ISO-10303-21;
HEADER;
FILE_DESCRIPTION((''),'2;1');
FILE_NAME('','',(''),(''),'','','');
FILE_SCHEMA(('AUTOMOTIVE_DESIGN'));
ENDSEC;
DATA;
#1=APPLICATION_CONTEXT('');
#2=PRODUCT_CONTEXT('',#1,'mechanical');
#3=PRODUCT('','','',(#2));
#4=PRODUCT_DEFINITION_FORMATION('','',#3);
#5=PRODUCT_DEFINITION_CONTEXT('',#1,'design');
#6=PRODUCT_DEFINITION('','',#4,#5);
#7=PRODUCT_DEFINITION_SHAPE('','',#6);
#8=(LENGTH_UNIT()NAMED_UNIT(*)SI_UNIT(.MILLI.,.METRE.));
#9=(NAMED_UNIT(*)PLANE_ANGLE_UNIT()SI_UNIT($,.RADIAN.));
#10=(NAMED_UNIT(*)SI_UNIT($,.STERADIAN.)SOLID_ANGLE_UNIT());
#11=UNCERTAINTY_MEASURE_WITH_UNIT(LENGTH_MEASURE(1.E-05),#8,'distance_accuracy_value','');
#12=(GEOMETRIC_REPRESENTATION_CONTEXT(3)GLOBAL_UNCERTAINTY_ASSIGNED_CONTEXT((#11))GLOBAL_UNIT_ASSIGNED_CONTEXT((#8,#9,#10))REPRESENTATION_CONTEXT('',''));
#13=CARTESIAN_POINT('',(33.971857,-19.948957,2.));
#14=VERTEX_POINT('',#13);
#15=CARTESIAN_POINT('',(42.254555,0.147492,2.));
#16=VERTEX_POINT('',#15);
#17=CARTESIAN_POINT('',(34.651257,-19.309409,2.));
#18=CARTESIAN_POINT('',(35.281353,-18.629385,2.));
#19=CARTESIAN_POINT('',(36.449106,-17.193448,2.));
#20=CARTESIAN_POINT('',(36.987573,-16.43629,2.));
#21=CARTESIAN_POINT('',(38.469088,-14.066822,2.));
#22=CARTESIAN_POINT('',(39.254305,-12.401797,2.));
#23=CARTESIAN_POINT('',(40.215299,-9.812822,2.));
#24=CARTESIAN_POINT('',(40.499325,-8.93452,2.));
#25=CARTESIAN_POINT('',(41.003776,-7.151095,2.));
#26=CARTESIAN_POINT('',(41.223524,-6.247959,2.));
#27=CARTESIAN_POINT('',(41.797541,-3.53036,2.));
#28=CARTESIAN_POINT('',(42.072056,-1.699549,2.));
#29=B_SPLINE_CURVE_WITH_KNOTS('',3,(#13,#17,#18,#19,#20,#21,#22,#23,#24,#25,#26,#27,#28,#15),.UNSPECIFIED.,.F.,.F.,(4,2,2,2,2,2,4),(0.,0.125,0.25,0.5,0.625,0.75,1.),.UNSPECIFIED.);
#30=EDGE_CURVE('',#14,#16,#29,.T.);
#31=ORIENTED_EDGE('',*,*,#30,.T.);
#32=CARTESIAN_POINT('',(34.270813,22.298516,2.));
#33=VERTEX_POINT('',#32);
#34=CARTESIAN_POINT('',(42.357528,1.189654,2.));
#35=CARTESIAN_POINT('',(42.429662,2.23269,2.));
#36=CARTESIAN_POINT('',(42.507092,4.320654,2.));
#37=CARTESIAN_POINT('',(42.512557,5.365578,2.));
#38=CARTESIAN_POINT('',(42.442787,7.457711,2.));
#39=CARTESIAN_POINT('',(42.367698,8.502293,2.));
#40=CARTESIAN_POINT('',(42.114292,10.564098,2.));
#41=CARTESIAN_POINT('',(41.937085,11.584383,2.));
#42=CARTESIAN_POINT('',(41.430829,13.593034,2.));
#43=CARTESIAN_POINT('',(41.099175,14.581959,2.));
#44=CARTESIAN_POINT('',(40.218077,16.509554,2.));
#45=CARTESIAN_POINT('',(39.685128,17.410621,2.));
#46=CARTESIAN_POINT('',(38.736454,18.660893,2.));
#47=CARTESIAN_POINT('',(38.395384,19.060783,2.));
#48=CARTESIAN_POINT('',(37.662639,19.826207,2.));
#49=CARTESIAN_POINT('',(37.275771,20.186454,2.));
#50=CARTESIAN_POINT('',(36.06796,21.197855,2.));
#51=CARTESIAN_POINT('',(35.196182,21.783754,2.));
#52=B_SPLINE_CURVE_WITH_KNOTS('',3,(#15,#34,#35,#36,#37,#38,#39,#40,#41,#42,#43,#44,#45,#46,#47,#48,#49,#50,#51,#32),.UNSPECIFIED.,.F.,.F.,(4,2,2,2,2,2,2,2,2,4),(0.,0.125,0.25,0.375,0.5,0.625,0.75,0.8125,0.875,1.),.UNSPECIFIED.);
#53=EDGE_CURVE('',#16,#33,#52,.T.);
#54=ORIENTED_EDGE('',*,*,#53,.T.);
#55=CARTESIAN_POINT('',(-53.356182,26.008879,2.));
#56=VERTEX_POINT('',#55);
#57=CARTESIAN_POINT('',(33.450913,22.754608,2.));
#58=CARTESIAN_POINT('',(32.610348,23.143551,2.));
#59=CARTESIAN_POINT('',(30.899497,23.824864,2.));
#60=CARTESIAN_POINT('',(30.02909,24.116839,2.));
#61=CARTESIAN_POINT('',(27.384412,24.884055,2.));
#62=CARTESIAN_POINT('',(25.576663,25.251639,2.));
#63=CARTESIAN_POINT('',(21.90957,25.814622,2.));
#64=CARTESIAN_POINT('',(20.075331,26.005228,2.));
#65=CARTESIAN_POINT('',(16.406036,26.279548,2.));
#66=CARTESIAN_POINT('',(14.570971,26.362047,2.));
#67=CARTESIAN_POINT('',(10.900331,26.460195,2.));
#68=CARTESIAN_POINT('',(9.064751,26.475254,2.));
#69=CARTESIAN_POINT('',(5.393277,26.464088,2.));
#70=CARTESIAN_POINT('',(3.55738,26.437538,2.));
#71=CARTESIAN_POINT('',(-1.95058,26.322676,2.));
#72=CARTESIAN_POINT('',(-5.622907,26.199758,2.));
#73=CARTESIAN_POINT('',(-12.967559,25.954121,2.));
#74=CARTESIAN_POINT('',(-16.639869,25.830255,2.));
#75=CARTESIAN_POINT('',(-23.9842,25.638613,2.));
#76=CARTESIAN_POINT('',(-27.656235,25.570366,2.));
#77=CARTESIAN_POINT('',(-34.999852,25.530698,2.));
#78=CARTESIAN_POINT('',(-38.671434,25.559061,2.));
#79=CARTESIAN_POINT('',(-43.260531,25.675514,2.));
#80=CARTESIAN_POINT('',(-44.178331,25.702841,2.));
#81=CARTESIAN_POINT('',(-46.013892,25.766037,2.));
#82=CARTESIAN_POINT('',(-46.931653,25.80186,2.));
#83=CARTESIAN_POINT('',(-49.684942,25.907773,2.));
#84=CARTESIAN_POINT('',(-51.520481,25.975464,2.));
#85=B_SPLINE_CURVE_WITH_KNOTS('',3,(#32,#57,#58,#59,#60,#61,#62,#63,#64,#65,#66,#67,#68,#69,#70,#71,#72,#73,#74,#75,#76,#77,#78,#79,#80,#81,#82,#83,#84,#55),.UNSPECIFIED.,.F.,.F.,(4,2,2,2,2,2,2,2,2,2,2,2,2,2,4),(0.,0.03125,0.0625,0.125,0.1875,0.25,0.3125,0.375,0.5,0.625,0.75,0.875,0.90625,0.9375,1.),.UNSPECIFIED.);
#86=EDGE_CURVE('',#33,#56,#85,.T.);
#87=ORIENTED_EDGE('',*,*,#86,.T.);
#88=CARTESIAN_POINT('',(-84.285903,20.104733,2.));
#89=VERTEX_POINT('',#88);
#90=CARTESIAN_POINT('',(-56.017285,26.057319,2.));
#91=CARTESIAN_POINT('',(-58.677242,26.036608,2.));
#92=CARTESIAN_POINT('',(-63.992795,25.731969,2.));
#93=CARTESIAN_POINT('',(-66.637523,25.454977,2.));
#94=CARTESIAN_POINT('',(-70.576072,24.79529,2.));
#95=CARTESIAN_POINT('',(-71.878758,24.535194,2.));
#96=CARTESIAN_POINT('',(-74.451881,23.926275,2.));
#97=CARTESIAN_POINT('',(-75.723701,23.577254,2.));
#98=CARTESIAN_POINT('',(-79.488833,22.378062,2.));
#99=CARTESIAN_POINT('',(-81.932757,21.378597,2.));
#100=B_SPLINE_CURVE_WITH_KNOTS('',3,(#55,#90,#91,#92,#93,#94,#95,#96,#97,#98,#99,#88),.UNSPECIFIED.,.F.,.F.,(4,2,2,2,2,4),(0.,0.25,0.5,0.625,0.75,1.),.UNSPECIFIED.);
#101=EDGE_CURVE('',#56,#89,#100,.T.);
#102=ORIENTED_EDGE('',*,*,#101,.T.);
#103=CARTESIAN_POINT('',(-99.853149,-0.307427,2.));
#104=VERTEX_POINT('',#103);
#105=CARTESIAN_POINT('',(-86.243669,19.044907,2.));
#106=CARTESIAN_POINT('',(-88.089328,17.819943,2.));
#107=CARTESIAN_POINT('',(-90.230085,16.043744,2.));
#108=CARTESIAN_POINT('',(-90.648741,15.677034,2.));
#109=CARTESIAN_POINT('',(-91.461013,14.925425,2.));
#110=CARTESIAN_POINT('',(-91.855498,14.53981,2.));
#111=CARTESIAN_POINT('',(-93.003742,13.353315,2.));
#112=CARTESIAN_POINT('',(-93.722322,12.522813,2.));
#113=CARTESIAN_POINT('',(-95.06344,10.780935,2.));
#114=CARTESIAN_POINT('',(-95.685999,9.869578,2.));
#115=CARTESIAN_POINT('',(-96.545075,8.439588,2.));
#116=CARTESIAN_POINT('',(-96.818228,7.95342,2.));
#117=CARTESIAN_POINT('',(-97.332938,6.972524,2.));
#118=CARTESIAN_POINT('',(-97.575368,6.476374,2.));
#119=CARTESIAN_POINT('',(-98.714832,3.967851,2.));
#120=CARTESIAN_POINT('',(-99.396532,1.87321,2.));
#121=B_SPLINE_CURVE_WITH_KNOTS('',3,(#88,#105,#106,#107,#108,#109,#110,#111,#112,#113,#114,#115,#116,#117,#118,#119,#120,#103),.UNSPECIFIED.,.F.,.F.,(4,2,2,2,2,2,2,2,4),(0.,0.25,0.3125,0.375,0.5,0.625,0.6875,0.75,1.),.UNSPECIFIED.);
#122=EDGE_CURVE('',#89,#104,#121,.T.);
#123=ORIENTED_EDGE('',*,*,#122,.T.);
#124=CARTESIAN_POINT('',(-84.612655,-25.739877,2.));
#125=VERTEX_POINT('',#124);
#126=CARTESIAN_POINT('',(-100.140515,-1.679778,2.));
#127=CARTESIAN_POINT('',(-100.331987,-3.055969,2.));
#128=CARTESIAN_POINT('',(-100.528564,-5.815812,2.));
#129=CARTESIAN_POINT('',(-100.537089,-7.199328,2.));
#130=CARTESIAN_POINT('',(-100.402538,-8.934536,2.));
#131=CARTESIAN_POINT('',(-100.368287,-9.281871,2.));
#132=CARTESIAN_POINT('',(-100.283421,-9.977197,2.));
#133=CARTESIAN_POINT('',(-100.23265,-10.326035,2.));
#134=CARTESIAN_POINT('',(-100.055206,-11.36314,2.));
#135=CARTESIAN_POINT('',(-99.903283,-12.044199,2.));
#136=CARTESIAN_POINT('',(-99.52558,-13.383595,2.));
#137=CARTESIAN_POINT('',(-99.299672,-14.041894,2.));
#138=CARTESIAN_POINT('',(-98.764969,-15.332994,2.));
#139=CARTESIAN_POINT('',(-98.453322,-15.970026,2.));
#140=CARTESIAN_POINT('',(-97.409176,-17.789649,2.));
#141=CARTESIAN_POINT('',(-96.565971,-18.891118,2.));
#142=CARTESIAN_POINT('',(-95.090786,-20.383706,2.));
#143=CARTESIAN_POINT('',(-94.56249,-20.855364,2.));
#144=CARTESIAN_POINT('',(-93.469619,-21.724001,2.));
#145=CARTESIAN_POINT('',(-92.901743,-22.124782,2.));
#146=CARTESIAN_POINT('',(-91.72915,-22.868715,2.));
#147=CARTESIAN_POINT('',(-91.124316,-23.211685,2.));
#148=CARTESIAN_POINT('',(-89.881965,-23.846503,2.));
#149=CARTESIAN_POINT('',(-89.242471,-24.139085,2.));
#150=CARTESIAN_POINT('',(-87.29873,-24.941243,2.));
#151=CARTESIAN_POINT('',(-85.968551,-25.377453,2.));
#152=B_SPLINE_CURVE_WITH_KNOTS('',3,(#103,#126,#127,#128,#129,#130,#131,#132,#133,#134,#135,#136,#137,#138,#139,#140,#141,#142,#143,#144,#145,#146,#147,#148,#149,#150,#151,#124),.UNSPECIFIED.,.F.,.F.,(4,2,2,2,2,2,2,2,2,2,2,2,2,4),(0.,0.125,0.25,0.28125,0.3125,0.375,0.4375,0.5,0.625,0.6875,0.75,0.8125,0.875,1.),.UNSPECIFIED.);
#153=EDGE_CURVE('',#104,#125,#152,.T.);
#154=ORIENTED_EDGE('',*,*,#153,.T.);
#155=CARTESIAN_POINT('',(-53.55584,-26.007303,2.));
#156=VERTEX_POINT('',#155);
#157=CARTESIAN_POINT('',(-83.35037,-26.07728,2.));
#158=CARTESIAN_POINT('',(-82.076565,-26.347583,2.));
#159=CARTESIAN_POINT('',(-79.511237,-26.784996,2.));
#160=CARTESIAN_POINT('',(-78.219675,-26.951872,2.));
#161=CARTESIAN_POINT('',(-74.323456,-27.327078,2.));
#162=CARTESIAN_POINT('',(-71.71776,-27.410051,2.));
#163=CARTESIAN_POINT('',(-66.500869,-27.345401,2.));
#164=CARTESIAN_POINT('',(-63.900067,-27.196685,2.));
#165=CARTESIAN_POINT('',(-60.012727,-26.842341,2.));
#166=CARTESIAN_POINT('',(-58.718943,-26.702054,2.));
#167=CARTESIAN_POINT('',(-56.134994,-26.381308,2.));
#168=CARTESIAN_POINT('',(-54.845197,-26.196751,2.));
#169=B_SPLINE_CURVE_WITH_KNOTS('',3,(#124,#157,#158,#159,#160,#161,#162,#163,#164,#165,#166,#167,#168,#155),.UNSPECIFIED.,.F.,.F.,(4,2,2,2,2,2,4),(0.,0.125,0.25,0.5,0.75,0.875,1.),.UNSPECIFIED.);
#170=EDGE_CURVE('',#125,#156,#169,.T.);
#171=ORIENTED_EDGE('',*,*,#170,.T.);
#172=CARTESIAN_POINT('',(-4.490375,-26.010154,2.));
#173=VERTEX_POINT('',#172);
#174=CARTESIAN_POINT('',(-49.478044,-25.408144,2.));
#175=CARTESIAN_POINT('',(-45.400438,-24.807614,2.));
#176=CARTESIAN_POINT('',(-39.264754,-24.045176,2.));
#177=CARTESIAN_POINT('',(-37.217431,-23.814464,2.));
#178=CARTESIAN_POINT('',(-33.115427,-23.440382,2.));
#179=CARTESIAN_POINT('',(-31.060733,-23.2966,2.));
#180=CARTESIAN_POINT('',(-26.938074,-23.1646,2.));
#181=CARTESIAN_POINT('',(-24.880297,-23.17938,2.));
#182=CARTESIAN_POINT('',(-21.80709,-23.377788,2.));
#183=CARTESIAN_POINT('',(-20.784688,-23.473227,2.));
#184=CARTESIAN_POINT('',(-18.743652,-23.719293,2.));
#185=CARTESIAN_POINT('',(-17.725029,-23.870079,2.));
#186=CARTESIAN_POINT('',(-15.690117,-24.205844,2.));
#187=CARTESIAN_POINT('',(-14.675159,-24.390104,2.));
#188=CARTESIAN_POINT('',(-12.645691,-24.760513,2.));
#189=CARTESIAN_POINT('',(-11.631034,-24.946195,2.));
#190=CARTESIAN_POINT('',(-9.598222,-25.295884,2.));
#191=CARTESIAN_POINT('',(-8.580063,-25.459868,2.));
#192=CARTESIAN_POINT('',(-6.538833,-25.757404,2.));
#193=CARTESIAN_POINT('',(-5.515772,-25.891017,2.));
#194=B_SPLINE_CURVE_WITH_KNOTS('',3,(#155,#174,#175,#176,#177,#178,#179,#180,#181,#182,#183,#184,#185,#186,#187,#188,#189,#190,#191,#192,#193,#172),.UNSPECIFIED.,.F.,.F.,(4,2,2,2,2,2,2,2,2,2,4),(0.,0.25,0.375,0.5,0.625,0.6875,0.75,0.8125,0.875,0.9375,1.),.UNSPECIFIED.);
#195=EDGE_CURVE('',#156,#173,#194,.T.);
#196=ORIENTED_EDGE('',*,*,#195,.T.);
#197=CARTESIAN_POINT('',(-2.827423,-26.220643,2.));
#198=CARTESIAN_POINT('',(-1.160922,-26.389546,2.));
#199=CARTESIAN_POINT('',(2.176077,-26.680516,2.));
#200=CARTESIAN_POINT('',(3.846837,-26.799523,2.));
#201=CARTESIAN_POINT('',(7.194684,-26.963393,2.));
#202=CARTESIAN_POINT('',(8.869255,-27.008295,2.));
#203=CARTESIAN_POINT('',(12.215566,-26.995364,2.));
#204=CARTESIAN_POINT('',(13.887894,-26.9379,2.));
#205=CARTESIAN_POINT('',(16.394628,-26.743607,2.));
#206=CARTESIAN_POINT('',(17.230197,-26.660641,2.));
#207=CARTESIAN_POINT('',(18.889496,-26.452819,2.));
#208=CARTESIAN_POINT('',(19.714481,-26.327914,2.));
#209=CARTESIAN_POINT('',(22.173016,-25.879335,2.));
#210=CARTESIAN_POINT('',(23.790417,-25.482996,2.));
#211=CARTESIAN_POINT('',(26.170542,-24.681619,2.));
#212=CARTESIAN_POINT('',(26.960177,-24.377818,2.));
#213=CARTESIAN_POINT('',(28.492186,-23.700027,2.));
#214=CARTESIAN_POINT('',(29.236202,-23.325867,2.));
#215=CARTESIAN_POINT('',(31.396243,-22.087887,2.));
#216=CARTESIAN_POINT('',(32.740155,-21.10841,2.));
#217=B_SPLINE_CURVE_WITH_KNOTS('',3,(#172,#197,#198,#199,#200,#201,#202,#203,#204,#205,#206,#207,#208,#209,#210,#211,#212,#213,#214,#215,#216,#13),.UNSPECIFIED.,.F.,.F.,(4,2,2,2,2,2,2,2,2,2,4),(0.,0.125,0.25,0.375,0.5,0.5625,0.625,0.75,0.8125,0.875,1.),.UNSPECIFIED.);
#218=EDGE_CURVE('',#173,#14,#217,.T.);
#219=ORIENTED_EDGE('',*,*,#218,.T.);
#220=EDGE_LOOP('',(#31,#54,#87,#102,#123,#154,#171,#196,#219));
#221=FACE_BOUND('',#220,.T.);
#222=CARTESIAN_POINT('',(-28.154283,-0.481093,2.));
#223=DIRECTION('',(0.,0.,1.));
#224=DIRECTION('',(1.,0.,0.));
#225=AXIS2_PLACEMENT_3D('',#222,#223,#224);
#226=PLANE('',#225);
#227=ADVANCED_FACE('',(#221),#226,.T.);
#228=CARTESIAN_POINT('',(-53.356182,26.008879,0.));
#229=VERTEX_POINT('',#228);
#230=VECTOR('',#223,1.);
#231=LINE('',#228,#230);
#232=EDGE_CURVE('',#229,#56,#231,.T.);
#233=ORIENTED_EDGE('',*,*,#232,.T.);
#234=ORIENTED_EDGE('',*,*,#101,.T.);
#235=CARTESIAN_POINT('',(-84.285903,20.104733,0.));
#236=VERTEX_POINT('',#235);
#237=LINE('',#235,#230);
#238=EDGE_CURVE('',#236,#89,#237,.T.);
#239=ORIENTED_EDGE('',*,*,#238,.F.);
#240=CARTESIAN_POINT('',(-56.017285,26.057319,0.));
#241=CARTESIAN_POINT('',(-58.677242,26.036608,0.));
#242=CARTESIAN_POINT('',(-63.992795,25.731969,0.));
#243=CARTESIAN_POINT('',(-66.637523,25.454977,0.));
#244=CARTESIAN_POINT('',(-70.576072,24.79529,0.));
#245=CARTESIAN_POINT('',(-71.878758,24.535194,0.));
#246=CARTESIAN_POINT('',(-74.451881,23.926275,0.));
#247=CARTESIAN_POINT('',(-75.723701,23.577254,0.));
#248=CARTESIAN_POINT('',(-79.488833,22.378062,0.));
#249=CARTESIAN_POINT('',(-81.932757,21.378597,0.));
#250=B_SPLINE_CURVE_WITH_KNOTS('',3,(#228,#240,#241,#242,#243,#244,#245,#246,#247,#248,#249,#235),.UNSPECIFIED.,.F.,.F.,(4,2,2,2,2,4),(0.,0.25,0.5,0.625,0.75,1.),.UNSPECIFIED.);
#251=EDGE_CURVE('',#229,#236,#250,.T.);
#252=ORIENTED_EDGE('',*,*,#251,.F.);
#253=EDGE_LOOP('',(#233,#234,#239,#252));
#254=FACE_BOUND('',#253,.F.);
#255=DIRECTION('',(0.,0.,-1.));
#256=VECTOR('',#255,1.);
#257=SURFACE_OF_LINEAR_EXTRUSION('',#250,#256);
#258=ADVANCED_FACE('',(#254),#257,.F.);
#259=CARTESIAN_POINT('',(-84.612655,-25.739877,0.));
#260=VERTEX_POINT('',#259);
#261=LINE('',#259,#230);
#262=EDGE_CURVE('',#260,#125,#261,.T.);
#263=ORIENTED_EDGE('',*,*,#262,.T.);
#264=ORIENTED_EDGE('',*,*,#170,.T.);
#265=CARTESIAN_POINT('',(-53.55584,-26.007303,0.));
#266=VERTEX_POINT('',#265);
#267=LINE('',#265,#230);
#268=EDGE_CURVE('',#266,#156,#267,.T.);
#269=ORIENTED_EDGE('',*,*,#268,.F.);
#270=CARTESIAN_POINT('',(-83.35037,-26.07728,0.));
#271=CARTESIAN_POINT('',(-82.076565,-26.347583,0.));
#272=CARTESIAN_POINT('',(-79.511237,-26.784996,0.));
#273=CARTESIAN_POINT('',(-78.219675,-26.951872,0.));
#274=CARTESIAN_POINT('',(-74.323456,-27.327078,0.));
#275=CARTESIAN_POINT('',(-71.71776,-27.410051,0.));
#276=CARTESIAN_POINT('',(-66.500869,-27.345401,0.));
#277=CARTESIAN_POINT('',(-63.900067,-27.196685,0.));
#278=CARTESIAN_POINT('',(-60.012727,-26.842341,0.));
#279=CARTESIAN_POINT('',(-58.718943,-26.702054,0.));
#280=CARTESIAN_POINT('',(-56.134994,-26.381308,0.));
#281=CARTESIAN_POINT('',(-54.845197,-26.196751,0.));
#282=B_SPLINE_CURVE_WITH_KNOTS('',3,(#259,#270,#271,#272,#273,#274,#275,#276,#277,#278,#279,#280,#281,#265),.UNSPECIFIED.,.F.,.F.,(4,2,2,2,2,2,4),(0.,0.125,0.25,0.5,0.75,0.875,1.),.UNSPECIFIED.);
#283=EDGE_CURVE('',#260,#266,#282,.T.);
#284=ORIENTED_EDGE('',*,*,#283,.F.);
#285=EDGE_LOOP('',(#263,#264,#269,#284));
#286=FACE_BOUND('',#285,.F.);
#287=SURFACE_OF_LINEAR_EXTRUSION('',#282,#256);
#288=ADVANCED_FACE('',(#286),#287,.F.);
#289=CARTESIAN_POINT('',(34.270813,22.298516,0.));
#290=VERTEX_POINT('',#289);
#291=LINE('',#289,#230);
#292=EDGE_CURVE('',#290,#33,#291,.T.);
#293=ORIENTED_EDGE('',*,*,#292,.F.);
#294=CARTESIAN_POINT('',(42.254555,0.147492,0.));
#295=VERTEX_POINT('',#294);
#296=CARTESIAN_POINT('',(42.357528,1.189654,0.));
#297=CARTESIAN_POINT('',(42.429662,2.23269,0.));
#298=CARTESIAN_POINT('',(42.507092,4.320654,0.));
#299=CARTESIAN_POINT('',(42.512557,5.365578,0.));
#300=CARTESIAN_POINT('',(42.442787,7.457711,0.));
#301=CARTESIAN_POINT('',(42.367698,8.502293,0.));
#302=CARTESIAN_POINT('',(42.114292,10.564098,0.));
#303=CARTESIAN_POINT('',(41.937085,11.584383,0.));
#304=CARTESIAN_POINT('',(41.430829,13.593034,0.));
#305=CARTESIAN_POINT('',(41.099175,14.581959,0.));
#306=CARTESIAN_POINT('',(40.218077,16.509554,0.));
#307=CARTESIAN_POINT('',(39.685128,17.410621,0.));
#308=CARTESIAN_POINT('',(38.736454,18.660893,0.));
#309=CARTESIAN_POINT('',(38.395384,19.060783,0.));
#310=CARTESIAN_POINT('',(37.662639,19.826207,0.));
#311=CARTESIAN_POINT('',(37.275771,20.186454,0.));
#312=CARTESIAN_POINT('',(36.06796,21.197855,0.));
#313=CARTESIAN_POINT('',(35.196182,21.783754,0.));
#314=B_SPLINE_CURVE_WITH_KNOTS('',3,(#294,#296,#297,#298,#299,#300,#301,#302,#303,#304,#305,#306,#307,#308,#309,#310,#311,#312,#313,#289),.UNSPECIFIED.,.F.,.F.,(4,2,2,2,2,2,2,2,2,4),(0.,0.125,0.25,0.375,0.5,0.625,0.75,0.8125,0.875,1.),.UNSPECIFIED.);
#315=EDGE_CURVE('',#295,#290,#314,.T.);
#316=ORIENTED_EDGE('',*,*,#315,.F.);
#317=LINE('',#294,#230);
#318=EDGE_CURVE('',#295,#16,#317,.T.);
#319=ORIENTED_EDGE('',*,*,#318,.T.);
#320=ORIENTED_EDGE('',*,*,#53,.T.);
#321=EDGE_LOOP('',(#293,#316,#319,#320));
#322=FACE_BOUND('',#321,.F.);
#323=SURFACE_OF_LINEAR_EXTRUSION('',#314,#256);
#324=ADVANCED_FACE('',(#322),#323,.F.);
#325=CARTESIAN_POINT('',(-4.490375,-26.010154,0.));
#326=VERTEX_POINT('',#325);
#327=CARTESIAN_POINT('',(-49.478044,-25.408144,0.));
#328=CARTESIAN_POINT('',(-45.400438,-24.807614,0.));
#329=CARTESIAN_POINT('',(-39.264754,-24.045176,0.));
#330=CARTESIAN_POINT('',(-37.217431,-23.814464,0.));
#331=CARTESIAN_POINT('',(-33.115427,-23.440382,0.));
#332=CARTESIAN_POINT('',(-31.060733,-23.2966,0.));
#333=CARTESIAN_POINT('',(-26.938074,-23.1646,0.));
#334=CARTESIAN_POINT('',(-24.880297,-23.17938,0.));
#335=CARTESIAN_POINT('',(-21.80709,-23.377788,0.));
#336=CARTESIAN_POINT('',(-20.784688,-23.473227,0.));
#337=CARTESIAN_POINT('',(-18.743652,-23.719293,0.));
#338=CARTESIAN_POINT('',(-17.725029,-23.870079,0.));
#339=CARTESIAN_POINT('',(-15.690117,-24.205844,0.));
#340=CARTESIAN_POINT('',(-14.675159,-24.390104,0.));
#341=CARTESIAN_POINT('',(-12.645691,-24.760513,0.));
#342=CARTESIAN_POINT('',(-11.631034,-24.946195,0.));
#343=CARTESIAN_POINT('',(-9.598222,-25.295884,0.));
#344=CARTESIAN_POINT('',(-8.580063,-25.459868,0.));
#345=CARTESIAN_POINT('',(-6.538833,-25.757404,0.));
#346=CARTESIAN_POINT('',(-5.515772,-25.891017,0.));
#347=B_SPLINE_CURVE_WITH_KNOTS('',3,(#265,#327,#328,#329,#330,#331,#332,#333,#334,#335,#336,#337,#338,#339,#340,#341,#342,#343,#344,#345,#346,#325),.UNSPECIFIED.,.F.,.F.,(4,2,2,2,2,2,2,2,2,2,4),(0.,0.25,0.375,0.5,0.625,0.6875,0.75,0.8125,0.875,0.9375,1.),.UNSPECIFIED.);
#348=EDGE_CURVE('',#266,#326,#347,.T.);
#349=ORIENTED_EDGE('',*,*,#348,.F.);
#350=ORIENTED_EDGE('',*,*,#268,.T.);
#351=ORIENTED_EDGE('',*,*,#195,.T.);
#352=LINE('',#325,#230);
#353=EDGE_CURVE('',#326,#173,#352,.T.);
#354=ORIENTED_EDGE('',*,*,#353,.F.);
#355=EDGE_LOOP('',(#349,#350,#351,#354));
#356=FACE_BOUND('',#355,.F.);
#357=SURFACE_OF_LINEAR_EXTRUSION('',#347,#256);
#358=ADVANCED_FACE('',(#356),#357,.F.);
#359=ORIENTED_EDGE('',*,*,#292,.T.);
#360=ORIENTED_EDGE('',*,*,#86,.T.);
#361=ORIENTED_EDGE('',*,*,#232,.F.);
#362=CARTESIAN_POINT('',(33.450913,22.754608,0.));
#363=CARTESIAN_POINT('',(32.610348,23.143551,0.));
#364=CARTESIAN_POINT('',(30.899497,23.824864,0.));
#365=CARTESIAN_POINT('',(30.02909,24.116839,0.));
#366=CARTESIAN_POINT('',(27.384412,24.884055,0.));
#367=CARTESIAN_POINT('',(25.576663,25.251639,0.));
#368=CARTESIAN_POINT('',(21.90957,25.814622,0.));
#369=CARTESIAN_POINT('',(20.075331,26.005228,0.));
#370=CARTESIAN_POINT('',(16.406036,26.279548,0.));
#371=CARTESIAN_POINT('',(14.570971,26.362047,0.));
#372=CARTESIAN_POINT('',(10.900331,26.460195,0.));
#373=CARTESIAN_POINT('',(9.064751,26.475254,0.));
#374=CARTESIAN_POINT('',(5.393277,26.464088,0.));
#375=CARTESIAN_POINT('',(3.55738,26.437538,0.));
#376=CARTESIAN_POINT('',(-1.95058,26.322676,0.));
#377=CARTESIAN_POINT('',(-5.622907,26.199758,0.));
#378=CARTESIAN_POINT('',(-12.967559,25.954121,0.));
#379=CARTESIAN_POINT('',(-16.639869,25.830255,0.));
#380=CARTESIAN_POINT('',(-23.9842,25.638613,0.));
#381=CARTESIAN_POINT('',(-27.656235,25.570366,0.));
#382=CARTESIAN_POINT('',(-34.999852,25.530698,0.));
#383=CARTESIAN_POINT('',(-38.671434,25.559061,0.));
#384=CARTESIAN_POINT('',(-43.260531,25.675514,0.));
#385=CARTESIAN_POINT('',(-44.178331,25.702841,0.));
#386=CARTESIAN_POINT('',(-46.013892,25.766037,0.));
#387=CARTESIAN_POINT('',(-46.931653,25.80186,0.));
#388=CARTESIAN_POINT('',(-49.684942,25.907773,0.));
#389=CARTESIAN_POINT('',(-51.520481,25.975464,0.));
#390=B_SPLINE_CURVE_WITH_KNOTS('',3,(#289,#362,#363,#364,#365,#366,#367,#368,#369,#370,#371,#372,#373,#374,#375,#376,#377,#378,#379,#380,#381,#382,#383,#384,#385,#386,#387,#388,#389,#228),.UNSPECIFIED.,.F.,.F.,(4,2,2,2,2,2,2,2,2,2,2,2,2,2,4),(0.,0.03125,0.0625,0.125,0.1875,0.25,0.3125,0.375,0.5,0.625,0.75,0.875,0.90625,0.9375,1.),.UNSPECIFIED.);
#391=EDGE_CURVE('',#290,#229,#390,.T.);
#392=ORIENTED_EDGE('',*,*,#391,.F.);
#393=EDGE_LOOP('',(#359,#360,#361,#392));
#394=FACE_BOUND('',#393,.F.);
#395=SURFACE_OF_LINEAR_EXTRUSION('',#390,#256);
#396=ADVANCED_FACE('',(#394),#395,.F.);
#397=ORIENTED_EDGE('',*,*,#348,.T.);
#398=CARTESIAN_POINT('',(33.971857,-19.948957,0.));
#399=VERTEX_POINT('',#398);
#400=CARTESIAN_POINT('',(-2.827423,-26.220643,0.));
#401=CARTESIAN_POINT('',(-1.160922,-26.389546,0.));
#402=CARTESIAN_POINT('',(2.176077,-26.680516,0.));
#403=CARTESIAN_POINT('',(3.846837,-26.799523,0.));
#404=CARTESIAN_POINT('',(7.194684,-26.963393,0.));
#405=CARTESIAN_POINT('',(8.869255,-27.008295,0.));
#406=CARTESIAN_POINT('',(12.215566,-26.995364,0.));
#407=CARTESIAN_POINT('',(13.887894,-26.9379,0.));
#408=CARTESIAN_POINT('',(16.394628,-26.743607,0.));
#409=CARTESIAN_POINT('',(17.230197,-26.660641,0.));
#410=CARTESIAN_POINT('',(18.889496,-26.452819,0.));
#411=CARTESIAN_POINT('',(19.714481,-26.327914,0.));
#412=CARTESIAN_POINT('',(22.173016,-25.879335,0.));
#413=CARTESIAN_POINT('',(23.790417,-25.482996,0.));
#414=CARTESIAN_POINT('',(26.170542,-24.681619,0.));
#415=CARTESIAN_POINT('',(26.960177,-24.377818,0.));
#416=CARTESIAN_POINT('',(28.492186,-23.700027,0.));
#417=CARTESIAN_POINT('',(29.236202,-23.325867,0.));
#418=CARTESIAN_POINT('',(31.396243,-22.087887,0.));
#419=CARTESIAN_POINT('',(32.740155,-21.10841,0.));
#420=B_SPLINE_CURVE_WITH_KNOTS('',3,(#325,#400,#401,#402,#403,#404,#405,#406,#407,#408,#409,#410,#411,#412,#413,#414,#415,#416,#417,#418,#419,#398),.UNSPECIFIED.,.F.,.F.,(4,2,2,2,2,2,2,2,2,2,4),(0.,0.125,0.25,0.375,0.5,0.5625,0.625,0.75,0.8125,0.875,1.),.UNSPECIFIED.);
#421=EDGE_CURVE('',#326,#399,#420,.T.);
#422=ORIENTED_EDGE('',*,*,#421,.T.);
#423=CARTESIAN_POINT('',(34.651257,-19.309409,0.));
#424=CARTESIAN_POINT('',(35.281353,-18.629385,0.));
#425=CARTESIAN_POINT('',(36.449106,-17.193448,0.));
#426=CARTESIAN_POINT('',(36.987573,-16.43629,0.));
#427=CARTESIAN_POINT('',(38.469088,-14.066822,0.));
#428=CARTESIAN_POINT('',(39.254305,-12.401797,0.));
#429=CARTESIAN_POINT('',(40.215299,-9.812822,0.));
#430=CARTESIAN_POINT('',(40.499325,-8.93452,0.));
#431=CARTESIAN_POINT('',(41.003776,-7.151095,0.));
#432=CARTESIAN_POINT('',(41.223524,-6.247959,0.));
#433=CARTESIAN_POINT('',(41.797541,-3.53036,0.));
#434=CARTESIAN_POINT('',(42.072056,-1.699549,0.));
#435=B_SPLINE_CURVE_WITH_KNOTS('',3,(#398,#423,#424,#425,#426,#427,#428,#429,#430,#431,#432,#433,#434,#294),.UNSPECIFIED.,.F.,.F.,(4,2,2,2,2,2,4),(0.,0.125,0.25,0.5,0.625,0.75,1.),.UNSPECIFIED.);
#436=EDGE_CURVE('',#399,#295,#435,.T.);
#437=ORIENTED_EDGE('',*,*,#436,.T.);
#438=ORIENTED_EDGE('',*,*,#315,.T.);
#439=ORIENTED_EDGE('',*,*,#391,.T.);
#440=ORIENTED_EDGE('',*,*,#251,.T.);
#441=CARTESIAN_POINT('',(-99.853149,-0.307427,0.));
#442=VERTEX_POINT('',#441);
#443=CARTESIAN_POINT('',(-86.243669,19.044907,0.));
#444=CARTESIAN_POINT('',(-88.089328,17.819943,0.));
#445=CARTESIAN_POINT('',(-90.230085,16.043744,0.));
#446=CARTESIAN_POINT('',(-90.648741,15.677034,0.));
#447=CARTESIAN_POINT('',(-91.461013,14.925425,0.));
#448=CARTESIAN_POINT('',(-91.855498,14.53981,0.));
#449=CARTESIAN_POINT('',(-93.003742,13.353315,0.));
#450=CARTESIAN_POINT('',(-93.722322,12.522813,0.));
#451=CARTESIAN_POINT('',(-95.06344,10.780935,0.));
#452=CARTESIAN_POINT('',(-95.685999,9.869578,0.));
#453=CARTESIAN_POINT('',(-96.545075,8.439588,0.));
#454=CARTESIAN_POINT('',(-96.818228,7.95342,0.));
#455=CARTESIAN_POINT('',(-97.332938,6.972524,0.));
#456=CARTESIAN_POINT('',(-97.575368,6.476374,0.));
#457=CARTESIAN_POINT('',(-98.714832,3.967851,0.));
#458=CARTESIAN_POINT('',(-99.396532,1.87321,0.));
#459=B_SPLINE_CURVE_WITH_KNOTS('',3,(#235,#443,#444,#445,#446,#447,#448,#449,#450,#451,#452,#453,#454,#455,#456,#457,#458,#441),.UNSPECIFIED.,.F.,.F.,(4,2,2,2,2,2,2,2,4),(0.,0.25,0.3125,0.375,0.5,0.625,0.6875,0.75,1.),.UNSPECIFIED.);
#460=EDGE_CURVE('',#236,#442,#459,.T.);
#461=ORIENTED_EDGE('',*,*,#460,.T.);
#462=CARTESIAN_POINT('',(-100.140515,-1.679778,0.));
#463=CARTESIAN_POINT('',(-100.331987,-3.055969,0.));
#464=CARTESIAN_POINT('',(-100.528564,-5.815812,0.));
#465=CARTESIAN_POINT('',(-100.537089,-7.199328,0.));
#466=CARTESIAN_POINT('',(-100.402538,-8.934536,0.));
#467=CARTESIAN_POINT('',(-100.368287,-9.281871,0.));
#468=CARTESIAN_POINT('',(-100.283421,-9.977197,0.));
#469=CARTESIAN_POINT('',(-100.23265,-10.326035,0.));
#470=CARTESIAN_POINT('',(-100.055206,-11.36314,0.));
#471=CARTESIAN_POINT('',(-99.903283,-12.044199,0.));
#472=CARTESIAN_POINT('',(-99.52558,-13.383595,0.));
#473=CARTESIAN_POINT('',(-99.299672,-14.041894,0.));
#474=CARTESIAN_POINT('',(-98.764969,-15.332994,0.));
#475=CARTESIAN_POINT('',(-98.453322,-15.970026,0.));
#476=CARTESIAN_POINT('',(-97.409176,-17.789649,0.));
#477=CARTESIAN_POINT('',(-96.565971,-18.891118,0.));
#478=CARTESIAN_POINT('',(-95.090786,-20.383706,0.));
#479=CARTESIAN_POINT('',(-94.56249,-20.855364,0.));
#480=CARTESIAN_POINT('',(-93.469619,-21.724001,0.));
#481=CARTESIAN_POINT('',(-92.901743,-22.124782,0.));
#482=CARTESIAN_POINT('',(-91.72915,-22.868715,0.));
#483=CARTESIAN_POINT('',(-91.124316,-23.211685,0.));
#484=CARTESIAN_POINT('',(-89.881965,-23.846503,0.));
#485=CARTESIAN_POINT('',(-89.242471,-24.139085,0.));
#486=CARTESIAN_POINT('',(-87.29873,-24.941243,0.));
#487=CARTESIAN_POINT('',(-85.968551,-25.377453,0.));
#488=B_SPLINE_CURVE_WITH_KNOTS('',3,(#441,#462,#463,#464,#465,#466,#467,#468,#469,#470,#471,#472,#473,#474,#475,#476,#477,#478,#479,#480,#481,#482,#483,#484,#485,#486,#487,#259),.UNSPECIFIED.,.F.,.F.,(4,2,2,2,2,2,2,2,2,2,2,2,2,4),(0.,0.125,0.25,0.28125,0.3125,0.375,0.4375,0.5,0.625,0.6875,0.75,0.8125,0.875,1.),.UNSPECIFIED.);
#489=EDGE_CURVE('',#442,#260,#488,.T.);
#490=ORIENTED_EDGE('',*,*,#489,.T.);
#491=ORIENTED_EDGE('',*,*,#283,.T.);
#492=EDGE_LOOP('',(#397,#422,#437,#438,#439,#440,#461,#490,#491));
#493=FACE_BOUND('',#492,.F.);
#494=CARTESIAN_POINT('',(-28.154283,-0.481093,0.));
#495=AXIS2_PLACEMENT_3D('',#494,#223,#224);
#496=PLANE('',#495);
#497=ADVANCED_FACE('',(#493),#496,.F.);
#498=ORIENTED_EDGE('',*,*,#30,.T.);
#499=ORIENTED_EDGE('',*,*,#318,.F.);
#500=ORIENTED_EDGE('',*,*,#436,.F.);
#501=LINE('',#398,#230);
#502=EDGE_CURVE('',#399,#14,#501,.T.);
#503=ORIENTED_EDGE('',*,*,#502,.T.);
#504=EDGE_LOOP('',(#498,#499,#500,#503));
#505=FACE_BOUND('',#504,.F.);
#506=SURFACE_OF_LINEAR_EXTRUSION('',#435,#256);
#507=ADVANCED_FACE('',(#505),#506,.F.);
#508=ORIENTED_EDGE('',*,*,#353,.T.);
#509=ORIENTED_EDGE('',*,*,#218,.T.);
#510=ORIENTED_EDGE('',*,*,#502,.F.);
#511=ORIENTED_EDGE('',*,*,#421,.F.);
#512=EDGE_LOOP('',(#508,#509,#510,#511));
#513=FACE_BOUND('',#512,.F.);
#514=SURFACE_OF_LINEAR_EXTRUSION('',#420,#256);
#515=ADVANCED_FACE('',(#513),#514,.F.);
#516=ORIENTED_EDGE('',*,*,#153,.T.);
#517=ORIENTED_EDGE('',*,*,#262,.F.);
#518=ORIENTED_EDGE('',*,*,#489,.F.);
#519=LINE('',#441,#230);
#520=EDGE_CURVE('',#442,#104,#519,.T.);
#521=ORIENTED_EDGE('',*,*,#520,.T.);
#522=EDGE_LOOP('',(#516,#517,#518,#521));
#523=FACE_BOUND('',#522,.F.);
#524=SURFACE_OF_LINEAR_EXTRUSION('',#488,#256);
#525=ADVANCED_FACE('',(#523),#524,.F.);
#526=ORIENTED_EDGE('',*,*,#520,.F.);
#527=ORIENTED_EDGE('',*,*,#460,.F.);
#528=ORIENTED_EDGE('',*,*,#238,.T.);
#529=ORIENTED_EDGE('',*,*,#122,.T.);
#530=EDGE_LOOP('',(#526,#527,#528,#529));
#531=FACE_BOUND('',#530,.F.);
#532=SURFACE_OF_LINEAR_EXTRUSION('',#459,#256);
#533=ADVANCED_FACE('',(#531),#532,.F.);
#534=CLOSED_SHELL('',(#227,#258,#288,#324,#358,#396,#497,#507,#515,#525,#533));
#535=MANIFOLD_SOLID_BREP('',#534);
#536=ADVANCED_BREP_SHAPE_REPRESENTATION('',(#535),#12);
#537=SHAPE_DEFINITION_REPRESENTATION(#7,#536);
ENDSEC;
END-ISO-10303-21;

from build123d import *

# Parameters (mm, degrees)
BOSS_EXTRUDE1_DEPTH = 2


with BuildPart() as part:
    # Sketch1 → Boss-Extrude1 (new body)
    with BuildSketch(Plane.XY):
        with BuildLine():
            add(Edge.make_bspline(
                [(42.254555433, 0.147491636), (42.357527928, 1.189654109), (42.429661522, 2.232689939), (42.50709154, 4.320654428), (42.51255676, 5.365578306), (42.442786882, 7.457711495), (42.367698351, 8.502293443), (42.114292364, 10.564097845), (41.937085255, 11.58438322), (41.430828506, 13.593034081), (41.099175069, 14.581958917), (40.21807674, 16.509553986), (39.685127794, 17.41062061), (38.736453804, 18.660893203), (38.395384144, 19.060783278), (37.662639186, 19.826206877), (37.275770546, 20.18645437), (36.067960398, 21.197855015), (35.196182138, 21.783754372), (34.270812785, 22.298516315)],
                knots=[0, 0, 0, 0, 0.125, 0.125, 0.25, 0.25, 0.375, 0.375, 0.5, 0.5, 0.625, 0.625, 0.75, 0.75, 0.8125, 0.8125, 0.875, 0.875, 1, 1, 1, 1], degree=3))
            add(Edge.make_bspline(
                [(34.270812785, 22.298516315), (33.45091286, 22.754608011), (32.610347852, 23.1435514), (30.899496832, 23.82486392), (30.029089503, 24.116838846), (27.384412134, 24.88405503), (25.576662512, 25.251639126), (21.909570483, 25.814621969), (20.0753308, 26.005227958), (16.406035598, 26.27954802), (14.570970807, 26.362047301), (10.900331001, 26.4601954), (9.06475148, 26.475254024), (5.393277351, 26.464088036), (3.557380256, 26.437537651), (-1.950579769, 26.322675756), (-5.622906828, 26.199757695), (-12.967559425, 25.954120765), (-16.639869453, 25.830255047), (-23.984199611, 25.63861252), (-27.656235207, 25.570366288), (-34.999851743, 25.5306977), (-38.671433692, 25.559060601), (-43.260530776, 25.675514463), (-44.178331243, 25.702840848), (-46.013892062, 25.766036726), (-46.93165263, 25.801860059), (-49.684941646, 25.90777277), (-51.520481355, 25.975464081), (-53.356182015, 26.008878987)],
                knots=[0, 0, 0, 0, 0.03125, 0.03125, 0.0625, 0.0625, 0.125, 0.125, 0.1875, 0.1875, 0.25, 0.25, 0.3125, 0.3125, 0.375, 0.375, 0.5, 0.5, 0.625, 0.625, 0.75, 0.75, 0.875, 0.875, 0.90625, 0.90625, 0.9375, 0.9375, 1, 1, 1, 1], degree=3))
            add(Edge.make_bspline(
                [(-53.356182015, 26.008878987), (-56.017284847, 26.057318531), (-58.67724197, 26.03660848), (-63.99279506, 25.731969361), (-66.637523426, 25.454977459), (-70.576071928, 24.795289884), (-71.878758496, 24.535193979), (-74.451881384, 23.926274503), (-75.723701138, 23.577253526), (-79.488833317, 22.378061694), (-81.932756658, 21.378597323), (-84.285903477, 20.104733327)],
                knots=[0, 0, 0, 0, 0.25, 0.25, 0.5, 0.5, 0.625, 0.625, 0.75, 0.75, 1, 1, 1, 1], degree=3))
            add(Edge.make_bspline(
                [(-84.285903477, 20.104733327), (-86.243668655, 19.04490716), (-88.089328033, 17.819942875), (-90.230085424, 16.043743516), (-90.648741369, 15.677034404), (-91.461012999, 14.925425227), (-91.855498364, 14.539810344), (-93.003741638, 13.353314641), (-93.722322166, 12.522812605), (-95.063439745, 10.780934854), (-95.685998708, 9.869577587), (-96.545075204, 8.439588178), (-96.818228201, 7.953420385), (-97.332937593, 6.972523784), (-97.575368205, 6.476373625), (-98.714832207, 3.96785142), (-99.396532307, 1.873209654), (-99.85314935, -0.307426804)],
                knots=[0, 0, 0, 0, 0.25, 0.25, 0.3125, 0.3125, 0.375, 0.375, 0.5, 0.5, 0.625, 0.625, 0.6875, 0.6875, 0.75, 0.75, 1, 1, 1, 1], degree=3))
            add(Edge.make_bspline(
                [(-99.85314935, -0.307426804), (-100.14051455, -1.679778191), (-100.331986994, -3.055968901), (-100.528564311, -5.815812043), (-100.53708908, -7.199327552), (-100.402537913, -8.934535692), (-100.368287375, -9.281871208), (-100.283421356, -9.977197456), (-100.232649746, -10.326034758), (-100.055206061, -11.363139778), (-99.903283497, -12.04419862), (-99.525579806, -13.383595412), (-99.29967189, -14.04189436), (-98.764969227, -15.332994025), (-98.453321931, -15.970026404), (-97.409175926, -17.7896486), (-96.565970976, -18.891117915), (-95.090785963, -20.383706122), (-94.562489524, -20.855363909), (-93.469619231, -21.72400101), (-92.901743324, -22.124781656), (-91.729150022, -22.868715032), (-91.124315887, -23.211685156), (-89.881965149, -23.846503081), (-89.242471007, -24.139085478), (-87.298729798, -24.941242749), (-85.968550779, -25.377452728), (-84.61265543, -25.739877353)],
                knots=[0, 0, 0, 0, 0.125, 0.125, 0.25, 0.25, 0.28125, 0.28125, 0.3125, 0.3125, 0.375, 0.375, 0.4375, 0.4375, 0.5, 0.5, 0.625, 0.625, 0.6875, 0.6875, 0.75, 0.75, 0.8125, 0.8125, 0.875, 0.875, 1, 1, 1, 1], degree=3))
            add(Edge.make_bspline(
                [(-84.61265543, -25.739877353), (-83.350370047, -26.077280463), (-82.076564561, -26.347582858), (-79.51123721, -26.78499571), (-78.219675123, -26.951871889), (-74.323455793, -27.327077564), (-71.717759973, -27.410050866), (-66.500869096, -27.345401316), (-63.900066532, -27.196684894), (-60.012726683, -26.842340554), (-58.718943158, -26.702054489), (-56.134993667, -26.381307565), (-54.845196518, -26.196750811), (-53.555839789, -26.007302967)],
                knots=[0, 0, 0, 0, 0.125, 0.125, 0.25, 0.25, 0.5, 0.5, 0.75, 0.75, 0.875, 0.875, 1, 1, 1, 1], degree=3))
            add(Edge.make_bspline(
                [(-53.555839789, -26.007302967), (-49.478043597, -25.408143959), (-45.400438467, -24.807613645), (-39.264753562, -24.045176184), (-37.217430777, -23.814464467), (-33.115426536, -23.440382029), (-31.060733362, -23.296600048), (-26.938073638, -23.164600448), (-24.8802971, -23.179379937), (-21.807089534, -23.37778787), (-20.784687654, -23.473227264), (-18.743651668, -23.719292696), (-17.725028524, -23.870079287), (-15.690116591, -24.20584378), (-14.675159008, -24.39010391), (-12.645691165, -24.760512872), (-11.631034408, -24.946195442), (-9.598222133, -25.295883521), (-8.580063191, -25.459867825), (-6.538833416, -25.757404146), (-5.515772475, -25.891017449), (-4.490374877, -26.010153675)],
                knots=[0, 0, 0, 0, 0.25, 0.25, 0.375, 0.375, 0.5, 0.5, 0.625, 0.625, 0.6875, 0.6875, 0.75, 0.75, 0.8125, 0.8125, 0.875, 0.875, 0.9375, 0.9375, 1, 1, 1, 1], degree=3))
            add(Edge.make_bspline(
                [(-4.490374877, -26.010153675), (-2.827423356, -26.220643358), (-1.160922379, -26.389546162), (2.176076989, -26.680516402), (3.846836603, -26.799523252), (7.194684015, -26.963393321), (8.869254594, -27.008294551), (12.215566288, -26.995364126), (13.887893581, -26.937900459), (16.394628289, -26.743606591), (17.230196709, -26.660641197), (18.889496465, -26.452818507), (19.714480605, -26.327914327), (22.173015814, -25.879334814), (23.790417112, -25.482995845), (26.170541832, -24.681619244), (26.960177466, -24.377817584), (28.492185655, -23.700027284), (29.23620247, -23.325866653), (31.396242612, -22.087887163), (32.740155177, -21.108409582), (33.971856948, -19.948956682)],
                knots=[0, 0, 0, 0, 0.125, 0.125, 0.25, 0.25, 0.375, 0.375, 0.5, 0.5, 0.5625, 0.5625, 0.625, 0.625, 0.75, 0.75, 0.8125, 0.8125, 0.875, 0.875, 1, 1, 1, 1], degree=3))
            add(Edge.make_bspline(
                [(33.971856948, -19.948956682), (34.651256548, -19.309409144), (35.281352636, -18.629385126), (36.449105521, -17.193447629), (36.987573495, -16.436290255), (38.469087983, -14.066821684), (39.254304834, -12.401797499), (40.215299226, -9.812822233), (40.499325301, -8.934520261), (41.003776196, -7.151095255), (41.223524471, -6.247959026), (41.797540589, -3.530359899), (42.07205568, -1.699549118), (42.254555433, 0.147491636)],
                knots=[0, 0, 0, 0, 0.125, 0.125, 0.25, 0.25, 0.5, 0.5, 0.625, 0.625, 0.75, 0.75, 1, 1, 1, 1], degree=3))
        make_face()
    extrude(amount=BOSS_EXTRUDE1_DEPTH)


solid = part.part
